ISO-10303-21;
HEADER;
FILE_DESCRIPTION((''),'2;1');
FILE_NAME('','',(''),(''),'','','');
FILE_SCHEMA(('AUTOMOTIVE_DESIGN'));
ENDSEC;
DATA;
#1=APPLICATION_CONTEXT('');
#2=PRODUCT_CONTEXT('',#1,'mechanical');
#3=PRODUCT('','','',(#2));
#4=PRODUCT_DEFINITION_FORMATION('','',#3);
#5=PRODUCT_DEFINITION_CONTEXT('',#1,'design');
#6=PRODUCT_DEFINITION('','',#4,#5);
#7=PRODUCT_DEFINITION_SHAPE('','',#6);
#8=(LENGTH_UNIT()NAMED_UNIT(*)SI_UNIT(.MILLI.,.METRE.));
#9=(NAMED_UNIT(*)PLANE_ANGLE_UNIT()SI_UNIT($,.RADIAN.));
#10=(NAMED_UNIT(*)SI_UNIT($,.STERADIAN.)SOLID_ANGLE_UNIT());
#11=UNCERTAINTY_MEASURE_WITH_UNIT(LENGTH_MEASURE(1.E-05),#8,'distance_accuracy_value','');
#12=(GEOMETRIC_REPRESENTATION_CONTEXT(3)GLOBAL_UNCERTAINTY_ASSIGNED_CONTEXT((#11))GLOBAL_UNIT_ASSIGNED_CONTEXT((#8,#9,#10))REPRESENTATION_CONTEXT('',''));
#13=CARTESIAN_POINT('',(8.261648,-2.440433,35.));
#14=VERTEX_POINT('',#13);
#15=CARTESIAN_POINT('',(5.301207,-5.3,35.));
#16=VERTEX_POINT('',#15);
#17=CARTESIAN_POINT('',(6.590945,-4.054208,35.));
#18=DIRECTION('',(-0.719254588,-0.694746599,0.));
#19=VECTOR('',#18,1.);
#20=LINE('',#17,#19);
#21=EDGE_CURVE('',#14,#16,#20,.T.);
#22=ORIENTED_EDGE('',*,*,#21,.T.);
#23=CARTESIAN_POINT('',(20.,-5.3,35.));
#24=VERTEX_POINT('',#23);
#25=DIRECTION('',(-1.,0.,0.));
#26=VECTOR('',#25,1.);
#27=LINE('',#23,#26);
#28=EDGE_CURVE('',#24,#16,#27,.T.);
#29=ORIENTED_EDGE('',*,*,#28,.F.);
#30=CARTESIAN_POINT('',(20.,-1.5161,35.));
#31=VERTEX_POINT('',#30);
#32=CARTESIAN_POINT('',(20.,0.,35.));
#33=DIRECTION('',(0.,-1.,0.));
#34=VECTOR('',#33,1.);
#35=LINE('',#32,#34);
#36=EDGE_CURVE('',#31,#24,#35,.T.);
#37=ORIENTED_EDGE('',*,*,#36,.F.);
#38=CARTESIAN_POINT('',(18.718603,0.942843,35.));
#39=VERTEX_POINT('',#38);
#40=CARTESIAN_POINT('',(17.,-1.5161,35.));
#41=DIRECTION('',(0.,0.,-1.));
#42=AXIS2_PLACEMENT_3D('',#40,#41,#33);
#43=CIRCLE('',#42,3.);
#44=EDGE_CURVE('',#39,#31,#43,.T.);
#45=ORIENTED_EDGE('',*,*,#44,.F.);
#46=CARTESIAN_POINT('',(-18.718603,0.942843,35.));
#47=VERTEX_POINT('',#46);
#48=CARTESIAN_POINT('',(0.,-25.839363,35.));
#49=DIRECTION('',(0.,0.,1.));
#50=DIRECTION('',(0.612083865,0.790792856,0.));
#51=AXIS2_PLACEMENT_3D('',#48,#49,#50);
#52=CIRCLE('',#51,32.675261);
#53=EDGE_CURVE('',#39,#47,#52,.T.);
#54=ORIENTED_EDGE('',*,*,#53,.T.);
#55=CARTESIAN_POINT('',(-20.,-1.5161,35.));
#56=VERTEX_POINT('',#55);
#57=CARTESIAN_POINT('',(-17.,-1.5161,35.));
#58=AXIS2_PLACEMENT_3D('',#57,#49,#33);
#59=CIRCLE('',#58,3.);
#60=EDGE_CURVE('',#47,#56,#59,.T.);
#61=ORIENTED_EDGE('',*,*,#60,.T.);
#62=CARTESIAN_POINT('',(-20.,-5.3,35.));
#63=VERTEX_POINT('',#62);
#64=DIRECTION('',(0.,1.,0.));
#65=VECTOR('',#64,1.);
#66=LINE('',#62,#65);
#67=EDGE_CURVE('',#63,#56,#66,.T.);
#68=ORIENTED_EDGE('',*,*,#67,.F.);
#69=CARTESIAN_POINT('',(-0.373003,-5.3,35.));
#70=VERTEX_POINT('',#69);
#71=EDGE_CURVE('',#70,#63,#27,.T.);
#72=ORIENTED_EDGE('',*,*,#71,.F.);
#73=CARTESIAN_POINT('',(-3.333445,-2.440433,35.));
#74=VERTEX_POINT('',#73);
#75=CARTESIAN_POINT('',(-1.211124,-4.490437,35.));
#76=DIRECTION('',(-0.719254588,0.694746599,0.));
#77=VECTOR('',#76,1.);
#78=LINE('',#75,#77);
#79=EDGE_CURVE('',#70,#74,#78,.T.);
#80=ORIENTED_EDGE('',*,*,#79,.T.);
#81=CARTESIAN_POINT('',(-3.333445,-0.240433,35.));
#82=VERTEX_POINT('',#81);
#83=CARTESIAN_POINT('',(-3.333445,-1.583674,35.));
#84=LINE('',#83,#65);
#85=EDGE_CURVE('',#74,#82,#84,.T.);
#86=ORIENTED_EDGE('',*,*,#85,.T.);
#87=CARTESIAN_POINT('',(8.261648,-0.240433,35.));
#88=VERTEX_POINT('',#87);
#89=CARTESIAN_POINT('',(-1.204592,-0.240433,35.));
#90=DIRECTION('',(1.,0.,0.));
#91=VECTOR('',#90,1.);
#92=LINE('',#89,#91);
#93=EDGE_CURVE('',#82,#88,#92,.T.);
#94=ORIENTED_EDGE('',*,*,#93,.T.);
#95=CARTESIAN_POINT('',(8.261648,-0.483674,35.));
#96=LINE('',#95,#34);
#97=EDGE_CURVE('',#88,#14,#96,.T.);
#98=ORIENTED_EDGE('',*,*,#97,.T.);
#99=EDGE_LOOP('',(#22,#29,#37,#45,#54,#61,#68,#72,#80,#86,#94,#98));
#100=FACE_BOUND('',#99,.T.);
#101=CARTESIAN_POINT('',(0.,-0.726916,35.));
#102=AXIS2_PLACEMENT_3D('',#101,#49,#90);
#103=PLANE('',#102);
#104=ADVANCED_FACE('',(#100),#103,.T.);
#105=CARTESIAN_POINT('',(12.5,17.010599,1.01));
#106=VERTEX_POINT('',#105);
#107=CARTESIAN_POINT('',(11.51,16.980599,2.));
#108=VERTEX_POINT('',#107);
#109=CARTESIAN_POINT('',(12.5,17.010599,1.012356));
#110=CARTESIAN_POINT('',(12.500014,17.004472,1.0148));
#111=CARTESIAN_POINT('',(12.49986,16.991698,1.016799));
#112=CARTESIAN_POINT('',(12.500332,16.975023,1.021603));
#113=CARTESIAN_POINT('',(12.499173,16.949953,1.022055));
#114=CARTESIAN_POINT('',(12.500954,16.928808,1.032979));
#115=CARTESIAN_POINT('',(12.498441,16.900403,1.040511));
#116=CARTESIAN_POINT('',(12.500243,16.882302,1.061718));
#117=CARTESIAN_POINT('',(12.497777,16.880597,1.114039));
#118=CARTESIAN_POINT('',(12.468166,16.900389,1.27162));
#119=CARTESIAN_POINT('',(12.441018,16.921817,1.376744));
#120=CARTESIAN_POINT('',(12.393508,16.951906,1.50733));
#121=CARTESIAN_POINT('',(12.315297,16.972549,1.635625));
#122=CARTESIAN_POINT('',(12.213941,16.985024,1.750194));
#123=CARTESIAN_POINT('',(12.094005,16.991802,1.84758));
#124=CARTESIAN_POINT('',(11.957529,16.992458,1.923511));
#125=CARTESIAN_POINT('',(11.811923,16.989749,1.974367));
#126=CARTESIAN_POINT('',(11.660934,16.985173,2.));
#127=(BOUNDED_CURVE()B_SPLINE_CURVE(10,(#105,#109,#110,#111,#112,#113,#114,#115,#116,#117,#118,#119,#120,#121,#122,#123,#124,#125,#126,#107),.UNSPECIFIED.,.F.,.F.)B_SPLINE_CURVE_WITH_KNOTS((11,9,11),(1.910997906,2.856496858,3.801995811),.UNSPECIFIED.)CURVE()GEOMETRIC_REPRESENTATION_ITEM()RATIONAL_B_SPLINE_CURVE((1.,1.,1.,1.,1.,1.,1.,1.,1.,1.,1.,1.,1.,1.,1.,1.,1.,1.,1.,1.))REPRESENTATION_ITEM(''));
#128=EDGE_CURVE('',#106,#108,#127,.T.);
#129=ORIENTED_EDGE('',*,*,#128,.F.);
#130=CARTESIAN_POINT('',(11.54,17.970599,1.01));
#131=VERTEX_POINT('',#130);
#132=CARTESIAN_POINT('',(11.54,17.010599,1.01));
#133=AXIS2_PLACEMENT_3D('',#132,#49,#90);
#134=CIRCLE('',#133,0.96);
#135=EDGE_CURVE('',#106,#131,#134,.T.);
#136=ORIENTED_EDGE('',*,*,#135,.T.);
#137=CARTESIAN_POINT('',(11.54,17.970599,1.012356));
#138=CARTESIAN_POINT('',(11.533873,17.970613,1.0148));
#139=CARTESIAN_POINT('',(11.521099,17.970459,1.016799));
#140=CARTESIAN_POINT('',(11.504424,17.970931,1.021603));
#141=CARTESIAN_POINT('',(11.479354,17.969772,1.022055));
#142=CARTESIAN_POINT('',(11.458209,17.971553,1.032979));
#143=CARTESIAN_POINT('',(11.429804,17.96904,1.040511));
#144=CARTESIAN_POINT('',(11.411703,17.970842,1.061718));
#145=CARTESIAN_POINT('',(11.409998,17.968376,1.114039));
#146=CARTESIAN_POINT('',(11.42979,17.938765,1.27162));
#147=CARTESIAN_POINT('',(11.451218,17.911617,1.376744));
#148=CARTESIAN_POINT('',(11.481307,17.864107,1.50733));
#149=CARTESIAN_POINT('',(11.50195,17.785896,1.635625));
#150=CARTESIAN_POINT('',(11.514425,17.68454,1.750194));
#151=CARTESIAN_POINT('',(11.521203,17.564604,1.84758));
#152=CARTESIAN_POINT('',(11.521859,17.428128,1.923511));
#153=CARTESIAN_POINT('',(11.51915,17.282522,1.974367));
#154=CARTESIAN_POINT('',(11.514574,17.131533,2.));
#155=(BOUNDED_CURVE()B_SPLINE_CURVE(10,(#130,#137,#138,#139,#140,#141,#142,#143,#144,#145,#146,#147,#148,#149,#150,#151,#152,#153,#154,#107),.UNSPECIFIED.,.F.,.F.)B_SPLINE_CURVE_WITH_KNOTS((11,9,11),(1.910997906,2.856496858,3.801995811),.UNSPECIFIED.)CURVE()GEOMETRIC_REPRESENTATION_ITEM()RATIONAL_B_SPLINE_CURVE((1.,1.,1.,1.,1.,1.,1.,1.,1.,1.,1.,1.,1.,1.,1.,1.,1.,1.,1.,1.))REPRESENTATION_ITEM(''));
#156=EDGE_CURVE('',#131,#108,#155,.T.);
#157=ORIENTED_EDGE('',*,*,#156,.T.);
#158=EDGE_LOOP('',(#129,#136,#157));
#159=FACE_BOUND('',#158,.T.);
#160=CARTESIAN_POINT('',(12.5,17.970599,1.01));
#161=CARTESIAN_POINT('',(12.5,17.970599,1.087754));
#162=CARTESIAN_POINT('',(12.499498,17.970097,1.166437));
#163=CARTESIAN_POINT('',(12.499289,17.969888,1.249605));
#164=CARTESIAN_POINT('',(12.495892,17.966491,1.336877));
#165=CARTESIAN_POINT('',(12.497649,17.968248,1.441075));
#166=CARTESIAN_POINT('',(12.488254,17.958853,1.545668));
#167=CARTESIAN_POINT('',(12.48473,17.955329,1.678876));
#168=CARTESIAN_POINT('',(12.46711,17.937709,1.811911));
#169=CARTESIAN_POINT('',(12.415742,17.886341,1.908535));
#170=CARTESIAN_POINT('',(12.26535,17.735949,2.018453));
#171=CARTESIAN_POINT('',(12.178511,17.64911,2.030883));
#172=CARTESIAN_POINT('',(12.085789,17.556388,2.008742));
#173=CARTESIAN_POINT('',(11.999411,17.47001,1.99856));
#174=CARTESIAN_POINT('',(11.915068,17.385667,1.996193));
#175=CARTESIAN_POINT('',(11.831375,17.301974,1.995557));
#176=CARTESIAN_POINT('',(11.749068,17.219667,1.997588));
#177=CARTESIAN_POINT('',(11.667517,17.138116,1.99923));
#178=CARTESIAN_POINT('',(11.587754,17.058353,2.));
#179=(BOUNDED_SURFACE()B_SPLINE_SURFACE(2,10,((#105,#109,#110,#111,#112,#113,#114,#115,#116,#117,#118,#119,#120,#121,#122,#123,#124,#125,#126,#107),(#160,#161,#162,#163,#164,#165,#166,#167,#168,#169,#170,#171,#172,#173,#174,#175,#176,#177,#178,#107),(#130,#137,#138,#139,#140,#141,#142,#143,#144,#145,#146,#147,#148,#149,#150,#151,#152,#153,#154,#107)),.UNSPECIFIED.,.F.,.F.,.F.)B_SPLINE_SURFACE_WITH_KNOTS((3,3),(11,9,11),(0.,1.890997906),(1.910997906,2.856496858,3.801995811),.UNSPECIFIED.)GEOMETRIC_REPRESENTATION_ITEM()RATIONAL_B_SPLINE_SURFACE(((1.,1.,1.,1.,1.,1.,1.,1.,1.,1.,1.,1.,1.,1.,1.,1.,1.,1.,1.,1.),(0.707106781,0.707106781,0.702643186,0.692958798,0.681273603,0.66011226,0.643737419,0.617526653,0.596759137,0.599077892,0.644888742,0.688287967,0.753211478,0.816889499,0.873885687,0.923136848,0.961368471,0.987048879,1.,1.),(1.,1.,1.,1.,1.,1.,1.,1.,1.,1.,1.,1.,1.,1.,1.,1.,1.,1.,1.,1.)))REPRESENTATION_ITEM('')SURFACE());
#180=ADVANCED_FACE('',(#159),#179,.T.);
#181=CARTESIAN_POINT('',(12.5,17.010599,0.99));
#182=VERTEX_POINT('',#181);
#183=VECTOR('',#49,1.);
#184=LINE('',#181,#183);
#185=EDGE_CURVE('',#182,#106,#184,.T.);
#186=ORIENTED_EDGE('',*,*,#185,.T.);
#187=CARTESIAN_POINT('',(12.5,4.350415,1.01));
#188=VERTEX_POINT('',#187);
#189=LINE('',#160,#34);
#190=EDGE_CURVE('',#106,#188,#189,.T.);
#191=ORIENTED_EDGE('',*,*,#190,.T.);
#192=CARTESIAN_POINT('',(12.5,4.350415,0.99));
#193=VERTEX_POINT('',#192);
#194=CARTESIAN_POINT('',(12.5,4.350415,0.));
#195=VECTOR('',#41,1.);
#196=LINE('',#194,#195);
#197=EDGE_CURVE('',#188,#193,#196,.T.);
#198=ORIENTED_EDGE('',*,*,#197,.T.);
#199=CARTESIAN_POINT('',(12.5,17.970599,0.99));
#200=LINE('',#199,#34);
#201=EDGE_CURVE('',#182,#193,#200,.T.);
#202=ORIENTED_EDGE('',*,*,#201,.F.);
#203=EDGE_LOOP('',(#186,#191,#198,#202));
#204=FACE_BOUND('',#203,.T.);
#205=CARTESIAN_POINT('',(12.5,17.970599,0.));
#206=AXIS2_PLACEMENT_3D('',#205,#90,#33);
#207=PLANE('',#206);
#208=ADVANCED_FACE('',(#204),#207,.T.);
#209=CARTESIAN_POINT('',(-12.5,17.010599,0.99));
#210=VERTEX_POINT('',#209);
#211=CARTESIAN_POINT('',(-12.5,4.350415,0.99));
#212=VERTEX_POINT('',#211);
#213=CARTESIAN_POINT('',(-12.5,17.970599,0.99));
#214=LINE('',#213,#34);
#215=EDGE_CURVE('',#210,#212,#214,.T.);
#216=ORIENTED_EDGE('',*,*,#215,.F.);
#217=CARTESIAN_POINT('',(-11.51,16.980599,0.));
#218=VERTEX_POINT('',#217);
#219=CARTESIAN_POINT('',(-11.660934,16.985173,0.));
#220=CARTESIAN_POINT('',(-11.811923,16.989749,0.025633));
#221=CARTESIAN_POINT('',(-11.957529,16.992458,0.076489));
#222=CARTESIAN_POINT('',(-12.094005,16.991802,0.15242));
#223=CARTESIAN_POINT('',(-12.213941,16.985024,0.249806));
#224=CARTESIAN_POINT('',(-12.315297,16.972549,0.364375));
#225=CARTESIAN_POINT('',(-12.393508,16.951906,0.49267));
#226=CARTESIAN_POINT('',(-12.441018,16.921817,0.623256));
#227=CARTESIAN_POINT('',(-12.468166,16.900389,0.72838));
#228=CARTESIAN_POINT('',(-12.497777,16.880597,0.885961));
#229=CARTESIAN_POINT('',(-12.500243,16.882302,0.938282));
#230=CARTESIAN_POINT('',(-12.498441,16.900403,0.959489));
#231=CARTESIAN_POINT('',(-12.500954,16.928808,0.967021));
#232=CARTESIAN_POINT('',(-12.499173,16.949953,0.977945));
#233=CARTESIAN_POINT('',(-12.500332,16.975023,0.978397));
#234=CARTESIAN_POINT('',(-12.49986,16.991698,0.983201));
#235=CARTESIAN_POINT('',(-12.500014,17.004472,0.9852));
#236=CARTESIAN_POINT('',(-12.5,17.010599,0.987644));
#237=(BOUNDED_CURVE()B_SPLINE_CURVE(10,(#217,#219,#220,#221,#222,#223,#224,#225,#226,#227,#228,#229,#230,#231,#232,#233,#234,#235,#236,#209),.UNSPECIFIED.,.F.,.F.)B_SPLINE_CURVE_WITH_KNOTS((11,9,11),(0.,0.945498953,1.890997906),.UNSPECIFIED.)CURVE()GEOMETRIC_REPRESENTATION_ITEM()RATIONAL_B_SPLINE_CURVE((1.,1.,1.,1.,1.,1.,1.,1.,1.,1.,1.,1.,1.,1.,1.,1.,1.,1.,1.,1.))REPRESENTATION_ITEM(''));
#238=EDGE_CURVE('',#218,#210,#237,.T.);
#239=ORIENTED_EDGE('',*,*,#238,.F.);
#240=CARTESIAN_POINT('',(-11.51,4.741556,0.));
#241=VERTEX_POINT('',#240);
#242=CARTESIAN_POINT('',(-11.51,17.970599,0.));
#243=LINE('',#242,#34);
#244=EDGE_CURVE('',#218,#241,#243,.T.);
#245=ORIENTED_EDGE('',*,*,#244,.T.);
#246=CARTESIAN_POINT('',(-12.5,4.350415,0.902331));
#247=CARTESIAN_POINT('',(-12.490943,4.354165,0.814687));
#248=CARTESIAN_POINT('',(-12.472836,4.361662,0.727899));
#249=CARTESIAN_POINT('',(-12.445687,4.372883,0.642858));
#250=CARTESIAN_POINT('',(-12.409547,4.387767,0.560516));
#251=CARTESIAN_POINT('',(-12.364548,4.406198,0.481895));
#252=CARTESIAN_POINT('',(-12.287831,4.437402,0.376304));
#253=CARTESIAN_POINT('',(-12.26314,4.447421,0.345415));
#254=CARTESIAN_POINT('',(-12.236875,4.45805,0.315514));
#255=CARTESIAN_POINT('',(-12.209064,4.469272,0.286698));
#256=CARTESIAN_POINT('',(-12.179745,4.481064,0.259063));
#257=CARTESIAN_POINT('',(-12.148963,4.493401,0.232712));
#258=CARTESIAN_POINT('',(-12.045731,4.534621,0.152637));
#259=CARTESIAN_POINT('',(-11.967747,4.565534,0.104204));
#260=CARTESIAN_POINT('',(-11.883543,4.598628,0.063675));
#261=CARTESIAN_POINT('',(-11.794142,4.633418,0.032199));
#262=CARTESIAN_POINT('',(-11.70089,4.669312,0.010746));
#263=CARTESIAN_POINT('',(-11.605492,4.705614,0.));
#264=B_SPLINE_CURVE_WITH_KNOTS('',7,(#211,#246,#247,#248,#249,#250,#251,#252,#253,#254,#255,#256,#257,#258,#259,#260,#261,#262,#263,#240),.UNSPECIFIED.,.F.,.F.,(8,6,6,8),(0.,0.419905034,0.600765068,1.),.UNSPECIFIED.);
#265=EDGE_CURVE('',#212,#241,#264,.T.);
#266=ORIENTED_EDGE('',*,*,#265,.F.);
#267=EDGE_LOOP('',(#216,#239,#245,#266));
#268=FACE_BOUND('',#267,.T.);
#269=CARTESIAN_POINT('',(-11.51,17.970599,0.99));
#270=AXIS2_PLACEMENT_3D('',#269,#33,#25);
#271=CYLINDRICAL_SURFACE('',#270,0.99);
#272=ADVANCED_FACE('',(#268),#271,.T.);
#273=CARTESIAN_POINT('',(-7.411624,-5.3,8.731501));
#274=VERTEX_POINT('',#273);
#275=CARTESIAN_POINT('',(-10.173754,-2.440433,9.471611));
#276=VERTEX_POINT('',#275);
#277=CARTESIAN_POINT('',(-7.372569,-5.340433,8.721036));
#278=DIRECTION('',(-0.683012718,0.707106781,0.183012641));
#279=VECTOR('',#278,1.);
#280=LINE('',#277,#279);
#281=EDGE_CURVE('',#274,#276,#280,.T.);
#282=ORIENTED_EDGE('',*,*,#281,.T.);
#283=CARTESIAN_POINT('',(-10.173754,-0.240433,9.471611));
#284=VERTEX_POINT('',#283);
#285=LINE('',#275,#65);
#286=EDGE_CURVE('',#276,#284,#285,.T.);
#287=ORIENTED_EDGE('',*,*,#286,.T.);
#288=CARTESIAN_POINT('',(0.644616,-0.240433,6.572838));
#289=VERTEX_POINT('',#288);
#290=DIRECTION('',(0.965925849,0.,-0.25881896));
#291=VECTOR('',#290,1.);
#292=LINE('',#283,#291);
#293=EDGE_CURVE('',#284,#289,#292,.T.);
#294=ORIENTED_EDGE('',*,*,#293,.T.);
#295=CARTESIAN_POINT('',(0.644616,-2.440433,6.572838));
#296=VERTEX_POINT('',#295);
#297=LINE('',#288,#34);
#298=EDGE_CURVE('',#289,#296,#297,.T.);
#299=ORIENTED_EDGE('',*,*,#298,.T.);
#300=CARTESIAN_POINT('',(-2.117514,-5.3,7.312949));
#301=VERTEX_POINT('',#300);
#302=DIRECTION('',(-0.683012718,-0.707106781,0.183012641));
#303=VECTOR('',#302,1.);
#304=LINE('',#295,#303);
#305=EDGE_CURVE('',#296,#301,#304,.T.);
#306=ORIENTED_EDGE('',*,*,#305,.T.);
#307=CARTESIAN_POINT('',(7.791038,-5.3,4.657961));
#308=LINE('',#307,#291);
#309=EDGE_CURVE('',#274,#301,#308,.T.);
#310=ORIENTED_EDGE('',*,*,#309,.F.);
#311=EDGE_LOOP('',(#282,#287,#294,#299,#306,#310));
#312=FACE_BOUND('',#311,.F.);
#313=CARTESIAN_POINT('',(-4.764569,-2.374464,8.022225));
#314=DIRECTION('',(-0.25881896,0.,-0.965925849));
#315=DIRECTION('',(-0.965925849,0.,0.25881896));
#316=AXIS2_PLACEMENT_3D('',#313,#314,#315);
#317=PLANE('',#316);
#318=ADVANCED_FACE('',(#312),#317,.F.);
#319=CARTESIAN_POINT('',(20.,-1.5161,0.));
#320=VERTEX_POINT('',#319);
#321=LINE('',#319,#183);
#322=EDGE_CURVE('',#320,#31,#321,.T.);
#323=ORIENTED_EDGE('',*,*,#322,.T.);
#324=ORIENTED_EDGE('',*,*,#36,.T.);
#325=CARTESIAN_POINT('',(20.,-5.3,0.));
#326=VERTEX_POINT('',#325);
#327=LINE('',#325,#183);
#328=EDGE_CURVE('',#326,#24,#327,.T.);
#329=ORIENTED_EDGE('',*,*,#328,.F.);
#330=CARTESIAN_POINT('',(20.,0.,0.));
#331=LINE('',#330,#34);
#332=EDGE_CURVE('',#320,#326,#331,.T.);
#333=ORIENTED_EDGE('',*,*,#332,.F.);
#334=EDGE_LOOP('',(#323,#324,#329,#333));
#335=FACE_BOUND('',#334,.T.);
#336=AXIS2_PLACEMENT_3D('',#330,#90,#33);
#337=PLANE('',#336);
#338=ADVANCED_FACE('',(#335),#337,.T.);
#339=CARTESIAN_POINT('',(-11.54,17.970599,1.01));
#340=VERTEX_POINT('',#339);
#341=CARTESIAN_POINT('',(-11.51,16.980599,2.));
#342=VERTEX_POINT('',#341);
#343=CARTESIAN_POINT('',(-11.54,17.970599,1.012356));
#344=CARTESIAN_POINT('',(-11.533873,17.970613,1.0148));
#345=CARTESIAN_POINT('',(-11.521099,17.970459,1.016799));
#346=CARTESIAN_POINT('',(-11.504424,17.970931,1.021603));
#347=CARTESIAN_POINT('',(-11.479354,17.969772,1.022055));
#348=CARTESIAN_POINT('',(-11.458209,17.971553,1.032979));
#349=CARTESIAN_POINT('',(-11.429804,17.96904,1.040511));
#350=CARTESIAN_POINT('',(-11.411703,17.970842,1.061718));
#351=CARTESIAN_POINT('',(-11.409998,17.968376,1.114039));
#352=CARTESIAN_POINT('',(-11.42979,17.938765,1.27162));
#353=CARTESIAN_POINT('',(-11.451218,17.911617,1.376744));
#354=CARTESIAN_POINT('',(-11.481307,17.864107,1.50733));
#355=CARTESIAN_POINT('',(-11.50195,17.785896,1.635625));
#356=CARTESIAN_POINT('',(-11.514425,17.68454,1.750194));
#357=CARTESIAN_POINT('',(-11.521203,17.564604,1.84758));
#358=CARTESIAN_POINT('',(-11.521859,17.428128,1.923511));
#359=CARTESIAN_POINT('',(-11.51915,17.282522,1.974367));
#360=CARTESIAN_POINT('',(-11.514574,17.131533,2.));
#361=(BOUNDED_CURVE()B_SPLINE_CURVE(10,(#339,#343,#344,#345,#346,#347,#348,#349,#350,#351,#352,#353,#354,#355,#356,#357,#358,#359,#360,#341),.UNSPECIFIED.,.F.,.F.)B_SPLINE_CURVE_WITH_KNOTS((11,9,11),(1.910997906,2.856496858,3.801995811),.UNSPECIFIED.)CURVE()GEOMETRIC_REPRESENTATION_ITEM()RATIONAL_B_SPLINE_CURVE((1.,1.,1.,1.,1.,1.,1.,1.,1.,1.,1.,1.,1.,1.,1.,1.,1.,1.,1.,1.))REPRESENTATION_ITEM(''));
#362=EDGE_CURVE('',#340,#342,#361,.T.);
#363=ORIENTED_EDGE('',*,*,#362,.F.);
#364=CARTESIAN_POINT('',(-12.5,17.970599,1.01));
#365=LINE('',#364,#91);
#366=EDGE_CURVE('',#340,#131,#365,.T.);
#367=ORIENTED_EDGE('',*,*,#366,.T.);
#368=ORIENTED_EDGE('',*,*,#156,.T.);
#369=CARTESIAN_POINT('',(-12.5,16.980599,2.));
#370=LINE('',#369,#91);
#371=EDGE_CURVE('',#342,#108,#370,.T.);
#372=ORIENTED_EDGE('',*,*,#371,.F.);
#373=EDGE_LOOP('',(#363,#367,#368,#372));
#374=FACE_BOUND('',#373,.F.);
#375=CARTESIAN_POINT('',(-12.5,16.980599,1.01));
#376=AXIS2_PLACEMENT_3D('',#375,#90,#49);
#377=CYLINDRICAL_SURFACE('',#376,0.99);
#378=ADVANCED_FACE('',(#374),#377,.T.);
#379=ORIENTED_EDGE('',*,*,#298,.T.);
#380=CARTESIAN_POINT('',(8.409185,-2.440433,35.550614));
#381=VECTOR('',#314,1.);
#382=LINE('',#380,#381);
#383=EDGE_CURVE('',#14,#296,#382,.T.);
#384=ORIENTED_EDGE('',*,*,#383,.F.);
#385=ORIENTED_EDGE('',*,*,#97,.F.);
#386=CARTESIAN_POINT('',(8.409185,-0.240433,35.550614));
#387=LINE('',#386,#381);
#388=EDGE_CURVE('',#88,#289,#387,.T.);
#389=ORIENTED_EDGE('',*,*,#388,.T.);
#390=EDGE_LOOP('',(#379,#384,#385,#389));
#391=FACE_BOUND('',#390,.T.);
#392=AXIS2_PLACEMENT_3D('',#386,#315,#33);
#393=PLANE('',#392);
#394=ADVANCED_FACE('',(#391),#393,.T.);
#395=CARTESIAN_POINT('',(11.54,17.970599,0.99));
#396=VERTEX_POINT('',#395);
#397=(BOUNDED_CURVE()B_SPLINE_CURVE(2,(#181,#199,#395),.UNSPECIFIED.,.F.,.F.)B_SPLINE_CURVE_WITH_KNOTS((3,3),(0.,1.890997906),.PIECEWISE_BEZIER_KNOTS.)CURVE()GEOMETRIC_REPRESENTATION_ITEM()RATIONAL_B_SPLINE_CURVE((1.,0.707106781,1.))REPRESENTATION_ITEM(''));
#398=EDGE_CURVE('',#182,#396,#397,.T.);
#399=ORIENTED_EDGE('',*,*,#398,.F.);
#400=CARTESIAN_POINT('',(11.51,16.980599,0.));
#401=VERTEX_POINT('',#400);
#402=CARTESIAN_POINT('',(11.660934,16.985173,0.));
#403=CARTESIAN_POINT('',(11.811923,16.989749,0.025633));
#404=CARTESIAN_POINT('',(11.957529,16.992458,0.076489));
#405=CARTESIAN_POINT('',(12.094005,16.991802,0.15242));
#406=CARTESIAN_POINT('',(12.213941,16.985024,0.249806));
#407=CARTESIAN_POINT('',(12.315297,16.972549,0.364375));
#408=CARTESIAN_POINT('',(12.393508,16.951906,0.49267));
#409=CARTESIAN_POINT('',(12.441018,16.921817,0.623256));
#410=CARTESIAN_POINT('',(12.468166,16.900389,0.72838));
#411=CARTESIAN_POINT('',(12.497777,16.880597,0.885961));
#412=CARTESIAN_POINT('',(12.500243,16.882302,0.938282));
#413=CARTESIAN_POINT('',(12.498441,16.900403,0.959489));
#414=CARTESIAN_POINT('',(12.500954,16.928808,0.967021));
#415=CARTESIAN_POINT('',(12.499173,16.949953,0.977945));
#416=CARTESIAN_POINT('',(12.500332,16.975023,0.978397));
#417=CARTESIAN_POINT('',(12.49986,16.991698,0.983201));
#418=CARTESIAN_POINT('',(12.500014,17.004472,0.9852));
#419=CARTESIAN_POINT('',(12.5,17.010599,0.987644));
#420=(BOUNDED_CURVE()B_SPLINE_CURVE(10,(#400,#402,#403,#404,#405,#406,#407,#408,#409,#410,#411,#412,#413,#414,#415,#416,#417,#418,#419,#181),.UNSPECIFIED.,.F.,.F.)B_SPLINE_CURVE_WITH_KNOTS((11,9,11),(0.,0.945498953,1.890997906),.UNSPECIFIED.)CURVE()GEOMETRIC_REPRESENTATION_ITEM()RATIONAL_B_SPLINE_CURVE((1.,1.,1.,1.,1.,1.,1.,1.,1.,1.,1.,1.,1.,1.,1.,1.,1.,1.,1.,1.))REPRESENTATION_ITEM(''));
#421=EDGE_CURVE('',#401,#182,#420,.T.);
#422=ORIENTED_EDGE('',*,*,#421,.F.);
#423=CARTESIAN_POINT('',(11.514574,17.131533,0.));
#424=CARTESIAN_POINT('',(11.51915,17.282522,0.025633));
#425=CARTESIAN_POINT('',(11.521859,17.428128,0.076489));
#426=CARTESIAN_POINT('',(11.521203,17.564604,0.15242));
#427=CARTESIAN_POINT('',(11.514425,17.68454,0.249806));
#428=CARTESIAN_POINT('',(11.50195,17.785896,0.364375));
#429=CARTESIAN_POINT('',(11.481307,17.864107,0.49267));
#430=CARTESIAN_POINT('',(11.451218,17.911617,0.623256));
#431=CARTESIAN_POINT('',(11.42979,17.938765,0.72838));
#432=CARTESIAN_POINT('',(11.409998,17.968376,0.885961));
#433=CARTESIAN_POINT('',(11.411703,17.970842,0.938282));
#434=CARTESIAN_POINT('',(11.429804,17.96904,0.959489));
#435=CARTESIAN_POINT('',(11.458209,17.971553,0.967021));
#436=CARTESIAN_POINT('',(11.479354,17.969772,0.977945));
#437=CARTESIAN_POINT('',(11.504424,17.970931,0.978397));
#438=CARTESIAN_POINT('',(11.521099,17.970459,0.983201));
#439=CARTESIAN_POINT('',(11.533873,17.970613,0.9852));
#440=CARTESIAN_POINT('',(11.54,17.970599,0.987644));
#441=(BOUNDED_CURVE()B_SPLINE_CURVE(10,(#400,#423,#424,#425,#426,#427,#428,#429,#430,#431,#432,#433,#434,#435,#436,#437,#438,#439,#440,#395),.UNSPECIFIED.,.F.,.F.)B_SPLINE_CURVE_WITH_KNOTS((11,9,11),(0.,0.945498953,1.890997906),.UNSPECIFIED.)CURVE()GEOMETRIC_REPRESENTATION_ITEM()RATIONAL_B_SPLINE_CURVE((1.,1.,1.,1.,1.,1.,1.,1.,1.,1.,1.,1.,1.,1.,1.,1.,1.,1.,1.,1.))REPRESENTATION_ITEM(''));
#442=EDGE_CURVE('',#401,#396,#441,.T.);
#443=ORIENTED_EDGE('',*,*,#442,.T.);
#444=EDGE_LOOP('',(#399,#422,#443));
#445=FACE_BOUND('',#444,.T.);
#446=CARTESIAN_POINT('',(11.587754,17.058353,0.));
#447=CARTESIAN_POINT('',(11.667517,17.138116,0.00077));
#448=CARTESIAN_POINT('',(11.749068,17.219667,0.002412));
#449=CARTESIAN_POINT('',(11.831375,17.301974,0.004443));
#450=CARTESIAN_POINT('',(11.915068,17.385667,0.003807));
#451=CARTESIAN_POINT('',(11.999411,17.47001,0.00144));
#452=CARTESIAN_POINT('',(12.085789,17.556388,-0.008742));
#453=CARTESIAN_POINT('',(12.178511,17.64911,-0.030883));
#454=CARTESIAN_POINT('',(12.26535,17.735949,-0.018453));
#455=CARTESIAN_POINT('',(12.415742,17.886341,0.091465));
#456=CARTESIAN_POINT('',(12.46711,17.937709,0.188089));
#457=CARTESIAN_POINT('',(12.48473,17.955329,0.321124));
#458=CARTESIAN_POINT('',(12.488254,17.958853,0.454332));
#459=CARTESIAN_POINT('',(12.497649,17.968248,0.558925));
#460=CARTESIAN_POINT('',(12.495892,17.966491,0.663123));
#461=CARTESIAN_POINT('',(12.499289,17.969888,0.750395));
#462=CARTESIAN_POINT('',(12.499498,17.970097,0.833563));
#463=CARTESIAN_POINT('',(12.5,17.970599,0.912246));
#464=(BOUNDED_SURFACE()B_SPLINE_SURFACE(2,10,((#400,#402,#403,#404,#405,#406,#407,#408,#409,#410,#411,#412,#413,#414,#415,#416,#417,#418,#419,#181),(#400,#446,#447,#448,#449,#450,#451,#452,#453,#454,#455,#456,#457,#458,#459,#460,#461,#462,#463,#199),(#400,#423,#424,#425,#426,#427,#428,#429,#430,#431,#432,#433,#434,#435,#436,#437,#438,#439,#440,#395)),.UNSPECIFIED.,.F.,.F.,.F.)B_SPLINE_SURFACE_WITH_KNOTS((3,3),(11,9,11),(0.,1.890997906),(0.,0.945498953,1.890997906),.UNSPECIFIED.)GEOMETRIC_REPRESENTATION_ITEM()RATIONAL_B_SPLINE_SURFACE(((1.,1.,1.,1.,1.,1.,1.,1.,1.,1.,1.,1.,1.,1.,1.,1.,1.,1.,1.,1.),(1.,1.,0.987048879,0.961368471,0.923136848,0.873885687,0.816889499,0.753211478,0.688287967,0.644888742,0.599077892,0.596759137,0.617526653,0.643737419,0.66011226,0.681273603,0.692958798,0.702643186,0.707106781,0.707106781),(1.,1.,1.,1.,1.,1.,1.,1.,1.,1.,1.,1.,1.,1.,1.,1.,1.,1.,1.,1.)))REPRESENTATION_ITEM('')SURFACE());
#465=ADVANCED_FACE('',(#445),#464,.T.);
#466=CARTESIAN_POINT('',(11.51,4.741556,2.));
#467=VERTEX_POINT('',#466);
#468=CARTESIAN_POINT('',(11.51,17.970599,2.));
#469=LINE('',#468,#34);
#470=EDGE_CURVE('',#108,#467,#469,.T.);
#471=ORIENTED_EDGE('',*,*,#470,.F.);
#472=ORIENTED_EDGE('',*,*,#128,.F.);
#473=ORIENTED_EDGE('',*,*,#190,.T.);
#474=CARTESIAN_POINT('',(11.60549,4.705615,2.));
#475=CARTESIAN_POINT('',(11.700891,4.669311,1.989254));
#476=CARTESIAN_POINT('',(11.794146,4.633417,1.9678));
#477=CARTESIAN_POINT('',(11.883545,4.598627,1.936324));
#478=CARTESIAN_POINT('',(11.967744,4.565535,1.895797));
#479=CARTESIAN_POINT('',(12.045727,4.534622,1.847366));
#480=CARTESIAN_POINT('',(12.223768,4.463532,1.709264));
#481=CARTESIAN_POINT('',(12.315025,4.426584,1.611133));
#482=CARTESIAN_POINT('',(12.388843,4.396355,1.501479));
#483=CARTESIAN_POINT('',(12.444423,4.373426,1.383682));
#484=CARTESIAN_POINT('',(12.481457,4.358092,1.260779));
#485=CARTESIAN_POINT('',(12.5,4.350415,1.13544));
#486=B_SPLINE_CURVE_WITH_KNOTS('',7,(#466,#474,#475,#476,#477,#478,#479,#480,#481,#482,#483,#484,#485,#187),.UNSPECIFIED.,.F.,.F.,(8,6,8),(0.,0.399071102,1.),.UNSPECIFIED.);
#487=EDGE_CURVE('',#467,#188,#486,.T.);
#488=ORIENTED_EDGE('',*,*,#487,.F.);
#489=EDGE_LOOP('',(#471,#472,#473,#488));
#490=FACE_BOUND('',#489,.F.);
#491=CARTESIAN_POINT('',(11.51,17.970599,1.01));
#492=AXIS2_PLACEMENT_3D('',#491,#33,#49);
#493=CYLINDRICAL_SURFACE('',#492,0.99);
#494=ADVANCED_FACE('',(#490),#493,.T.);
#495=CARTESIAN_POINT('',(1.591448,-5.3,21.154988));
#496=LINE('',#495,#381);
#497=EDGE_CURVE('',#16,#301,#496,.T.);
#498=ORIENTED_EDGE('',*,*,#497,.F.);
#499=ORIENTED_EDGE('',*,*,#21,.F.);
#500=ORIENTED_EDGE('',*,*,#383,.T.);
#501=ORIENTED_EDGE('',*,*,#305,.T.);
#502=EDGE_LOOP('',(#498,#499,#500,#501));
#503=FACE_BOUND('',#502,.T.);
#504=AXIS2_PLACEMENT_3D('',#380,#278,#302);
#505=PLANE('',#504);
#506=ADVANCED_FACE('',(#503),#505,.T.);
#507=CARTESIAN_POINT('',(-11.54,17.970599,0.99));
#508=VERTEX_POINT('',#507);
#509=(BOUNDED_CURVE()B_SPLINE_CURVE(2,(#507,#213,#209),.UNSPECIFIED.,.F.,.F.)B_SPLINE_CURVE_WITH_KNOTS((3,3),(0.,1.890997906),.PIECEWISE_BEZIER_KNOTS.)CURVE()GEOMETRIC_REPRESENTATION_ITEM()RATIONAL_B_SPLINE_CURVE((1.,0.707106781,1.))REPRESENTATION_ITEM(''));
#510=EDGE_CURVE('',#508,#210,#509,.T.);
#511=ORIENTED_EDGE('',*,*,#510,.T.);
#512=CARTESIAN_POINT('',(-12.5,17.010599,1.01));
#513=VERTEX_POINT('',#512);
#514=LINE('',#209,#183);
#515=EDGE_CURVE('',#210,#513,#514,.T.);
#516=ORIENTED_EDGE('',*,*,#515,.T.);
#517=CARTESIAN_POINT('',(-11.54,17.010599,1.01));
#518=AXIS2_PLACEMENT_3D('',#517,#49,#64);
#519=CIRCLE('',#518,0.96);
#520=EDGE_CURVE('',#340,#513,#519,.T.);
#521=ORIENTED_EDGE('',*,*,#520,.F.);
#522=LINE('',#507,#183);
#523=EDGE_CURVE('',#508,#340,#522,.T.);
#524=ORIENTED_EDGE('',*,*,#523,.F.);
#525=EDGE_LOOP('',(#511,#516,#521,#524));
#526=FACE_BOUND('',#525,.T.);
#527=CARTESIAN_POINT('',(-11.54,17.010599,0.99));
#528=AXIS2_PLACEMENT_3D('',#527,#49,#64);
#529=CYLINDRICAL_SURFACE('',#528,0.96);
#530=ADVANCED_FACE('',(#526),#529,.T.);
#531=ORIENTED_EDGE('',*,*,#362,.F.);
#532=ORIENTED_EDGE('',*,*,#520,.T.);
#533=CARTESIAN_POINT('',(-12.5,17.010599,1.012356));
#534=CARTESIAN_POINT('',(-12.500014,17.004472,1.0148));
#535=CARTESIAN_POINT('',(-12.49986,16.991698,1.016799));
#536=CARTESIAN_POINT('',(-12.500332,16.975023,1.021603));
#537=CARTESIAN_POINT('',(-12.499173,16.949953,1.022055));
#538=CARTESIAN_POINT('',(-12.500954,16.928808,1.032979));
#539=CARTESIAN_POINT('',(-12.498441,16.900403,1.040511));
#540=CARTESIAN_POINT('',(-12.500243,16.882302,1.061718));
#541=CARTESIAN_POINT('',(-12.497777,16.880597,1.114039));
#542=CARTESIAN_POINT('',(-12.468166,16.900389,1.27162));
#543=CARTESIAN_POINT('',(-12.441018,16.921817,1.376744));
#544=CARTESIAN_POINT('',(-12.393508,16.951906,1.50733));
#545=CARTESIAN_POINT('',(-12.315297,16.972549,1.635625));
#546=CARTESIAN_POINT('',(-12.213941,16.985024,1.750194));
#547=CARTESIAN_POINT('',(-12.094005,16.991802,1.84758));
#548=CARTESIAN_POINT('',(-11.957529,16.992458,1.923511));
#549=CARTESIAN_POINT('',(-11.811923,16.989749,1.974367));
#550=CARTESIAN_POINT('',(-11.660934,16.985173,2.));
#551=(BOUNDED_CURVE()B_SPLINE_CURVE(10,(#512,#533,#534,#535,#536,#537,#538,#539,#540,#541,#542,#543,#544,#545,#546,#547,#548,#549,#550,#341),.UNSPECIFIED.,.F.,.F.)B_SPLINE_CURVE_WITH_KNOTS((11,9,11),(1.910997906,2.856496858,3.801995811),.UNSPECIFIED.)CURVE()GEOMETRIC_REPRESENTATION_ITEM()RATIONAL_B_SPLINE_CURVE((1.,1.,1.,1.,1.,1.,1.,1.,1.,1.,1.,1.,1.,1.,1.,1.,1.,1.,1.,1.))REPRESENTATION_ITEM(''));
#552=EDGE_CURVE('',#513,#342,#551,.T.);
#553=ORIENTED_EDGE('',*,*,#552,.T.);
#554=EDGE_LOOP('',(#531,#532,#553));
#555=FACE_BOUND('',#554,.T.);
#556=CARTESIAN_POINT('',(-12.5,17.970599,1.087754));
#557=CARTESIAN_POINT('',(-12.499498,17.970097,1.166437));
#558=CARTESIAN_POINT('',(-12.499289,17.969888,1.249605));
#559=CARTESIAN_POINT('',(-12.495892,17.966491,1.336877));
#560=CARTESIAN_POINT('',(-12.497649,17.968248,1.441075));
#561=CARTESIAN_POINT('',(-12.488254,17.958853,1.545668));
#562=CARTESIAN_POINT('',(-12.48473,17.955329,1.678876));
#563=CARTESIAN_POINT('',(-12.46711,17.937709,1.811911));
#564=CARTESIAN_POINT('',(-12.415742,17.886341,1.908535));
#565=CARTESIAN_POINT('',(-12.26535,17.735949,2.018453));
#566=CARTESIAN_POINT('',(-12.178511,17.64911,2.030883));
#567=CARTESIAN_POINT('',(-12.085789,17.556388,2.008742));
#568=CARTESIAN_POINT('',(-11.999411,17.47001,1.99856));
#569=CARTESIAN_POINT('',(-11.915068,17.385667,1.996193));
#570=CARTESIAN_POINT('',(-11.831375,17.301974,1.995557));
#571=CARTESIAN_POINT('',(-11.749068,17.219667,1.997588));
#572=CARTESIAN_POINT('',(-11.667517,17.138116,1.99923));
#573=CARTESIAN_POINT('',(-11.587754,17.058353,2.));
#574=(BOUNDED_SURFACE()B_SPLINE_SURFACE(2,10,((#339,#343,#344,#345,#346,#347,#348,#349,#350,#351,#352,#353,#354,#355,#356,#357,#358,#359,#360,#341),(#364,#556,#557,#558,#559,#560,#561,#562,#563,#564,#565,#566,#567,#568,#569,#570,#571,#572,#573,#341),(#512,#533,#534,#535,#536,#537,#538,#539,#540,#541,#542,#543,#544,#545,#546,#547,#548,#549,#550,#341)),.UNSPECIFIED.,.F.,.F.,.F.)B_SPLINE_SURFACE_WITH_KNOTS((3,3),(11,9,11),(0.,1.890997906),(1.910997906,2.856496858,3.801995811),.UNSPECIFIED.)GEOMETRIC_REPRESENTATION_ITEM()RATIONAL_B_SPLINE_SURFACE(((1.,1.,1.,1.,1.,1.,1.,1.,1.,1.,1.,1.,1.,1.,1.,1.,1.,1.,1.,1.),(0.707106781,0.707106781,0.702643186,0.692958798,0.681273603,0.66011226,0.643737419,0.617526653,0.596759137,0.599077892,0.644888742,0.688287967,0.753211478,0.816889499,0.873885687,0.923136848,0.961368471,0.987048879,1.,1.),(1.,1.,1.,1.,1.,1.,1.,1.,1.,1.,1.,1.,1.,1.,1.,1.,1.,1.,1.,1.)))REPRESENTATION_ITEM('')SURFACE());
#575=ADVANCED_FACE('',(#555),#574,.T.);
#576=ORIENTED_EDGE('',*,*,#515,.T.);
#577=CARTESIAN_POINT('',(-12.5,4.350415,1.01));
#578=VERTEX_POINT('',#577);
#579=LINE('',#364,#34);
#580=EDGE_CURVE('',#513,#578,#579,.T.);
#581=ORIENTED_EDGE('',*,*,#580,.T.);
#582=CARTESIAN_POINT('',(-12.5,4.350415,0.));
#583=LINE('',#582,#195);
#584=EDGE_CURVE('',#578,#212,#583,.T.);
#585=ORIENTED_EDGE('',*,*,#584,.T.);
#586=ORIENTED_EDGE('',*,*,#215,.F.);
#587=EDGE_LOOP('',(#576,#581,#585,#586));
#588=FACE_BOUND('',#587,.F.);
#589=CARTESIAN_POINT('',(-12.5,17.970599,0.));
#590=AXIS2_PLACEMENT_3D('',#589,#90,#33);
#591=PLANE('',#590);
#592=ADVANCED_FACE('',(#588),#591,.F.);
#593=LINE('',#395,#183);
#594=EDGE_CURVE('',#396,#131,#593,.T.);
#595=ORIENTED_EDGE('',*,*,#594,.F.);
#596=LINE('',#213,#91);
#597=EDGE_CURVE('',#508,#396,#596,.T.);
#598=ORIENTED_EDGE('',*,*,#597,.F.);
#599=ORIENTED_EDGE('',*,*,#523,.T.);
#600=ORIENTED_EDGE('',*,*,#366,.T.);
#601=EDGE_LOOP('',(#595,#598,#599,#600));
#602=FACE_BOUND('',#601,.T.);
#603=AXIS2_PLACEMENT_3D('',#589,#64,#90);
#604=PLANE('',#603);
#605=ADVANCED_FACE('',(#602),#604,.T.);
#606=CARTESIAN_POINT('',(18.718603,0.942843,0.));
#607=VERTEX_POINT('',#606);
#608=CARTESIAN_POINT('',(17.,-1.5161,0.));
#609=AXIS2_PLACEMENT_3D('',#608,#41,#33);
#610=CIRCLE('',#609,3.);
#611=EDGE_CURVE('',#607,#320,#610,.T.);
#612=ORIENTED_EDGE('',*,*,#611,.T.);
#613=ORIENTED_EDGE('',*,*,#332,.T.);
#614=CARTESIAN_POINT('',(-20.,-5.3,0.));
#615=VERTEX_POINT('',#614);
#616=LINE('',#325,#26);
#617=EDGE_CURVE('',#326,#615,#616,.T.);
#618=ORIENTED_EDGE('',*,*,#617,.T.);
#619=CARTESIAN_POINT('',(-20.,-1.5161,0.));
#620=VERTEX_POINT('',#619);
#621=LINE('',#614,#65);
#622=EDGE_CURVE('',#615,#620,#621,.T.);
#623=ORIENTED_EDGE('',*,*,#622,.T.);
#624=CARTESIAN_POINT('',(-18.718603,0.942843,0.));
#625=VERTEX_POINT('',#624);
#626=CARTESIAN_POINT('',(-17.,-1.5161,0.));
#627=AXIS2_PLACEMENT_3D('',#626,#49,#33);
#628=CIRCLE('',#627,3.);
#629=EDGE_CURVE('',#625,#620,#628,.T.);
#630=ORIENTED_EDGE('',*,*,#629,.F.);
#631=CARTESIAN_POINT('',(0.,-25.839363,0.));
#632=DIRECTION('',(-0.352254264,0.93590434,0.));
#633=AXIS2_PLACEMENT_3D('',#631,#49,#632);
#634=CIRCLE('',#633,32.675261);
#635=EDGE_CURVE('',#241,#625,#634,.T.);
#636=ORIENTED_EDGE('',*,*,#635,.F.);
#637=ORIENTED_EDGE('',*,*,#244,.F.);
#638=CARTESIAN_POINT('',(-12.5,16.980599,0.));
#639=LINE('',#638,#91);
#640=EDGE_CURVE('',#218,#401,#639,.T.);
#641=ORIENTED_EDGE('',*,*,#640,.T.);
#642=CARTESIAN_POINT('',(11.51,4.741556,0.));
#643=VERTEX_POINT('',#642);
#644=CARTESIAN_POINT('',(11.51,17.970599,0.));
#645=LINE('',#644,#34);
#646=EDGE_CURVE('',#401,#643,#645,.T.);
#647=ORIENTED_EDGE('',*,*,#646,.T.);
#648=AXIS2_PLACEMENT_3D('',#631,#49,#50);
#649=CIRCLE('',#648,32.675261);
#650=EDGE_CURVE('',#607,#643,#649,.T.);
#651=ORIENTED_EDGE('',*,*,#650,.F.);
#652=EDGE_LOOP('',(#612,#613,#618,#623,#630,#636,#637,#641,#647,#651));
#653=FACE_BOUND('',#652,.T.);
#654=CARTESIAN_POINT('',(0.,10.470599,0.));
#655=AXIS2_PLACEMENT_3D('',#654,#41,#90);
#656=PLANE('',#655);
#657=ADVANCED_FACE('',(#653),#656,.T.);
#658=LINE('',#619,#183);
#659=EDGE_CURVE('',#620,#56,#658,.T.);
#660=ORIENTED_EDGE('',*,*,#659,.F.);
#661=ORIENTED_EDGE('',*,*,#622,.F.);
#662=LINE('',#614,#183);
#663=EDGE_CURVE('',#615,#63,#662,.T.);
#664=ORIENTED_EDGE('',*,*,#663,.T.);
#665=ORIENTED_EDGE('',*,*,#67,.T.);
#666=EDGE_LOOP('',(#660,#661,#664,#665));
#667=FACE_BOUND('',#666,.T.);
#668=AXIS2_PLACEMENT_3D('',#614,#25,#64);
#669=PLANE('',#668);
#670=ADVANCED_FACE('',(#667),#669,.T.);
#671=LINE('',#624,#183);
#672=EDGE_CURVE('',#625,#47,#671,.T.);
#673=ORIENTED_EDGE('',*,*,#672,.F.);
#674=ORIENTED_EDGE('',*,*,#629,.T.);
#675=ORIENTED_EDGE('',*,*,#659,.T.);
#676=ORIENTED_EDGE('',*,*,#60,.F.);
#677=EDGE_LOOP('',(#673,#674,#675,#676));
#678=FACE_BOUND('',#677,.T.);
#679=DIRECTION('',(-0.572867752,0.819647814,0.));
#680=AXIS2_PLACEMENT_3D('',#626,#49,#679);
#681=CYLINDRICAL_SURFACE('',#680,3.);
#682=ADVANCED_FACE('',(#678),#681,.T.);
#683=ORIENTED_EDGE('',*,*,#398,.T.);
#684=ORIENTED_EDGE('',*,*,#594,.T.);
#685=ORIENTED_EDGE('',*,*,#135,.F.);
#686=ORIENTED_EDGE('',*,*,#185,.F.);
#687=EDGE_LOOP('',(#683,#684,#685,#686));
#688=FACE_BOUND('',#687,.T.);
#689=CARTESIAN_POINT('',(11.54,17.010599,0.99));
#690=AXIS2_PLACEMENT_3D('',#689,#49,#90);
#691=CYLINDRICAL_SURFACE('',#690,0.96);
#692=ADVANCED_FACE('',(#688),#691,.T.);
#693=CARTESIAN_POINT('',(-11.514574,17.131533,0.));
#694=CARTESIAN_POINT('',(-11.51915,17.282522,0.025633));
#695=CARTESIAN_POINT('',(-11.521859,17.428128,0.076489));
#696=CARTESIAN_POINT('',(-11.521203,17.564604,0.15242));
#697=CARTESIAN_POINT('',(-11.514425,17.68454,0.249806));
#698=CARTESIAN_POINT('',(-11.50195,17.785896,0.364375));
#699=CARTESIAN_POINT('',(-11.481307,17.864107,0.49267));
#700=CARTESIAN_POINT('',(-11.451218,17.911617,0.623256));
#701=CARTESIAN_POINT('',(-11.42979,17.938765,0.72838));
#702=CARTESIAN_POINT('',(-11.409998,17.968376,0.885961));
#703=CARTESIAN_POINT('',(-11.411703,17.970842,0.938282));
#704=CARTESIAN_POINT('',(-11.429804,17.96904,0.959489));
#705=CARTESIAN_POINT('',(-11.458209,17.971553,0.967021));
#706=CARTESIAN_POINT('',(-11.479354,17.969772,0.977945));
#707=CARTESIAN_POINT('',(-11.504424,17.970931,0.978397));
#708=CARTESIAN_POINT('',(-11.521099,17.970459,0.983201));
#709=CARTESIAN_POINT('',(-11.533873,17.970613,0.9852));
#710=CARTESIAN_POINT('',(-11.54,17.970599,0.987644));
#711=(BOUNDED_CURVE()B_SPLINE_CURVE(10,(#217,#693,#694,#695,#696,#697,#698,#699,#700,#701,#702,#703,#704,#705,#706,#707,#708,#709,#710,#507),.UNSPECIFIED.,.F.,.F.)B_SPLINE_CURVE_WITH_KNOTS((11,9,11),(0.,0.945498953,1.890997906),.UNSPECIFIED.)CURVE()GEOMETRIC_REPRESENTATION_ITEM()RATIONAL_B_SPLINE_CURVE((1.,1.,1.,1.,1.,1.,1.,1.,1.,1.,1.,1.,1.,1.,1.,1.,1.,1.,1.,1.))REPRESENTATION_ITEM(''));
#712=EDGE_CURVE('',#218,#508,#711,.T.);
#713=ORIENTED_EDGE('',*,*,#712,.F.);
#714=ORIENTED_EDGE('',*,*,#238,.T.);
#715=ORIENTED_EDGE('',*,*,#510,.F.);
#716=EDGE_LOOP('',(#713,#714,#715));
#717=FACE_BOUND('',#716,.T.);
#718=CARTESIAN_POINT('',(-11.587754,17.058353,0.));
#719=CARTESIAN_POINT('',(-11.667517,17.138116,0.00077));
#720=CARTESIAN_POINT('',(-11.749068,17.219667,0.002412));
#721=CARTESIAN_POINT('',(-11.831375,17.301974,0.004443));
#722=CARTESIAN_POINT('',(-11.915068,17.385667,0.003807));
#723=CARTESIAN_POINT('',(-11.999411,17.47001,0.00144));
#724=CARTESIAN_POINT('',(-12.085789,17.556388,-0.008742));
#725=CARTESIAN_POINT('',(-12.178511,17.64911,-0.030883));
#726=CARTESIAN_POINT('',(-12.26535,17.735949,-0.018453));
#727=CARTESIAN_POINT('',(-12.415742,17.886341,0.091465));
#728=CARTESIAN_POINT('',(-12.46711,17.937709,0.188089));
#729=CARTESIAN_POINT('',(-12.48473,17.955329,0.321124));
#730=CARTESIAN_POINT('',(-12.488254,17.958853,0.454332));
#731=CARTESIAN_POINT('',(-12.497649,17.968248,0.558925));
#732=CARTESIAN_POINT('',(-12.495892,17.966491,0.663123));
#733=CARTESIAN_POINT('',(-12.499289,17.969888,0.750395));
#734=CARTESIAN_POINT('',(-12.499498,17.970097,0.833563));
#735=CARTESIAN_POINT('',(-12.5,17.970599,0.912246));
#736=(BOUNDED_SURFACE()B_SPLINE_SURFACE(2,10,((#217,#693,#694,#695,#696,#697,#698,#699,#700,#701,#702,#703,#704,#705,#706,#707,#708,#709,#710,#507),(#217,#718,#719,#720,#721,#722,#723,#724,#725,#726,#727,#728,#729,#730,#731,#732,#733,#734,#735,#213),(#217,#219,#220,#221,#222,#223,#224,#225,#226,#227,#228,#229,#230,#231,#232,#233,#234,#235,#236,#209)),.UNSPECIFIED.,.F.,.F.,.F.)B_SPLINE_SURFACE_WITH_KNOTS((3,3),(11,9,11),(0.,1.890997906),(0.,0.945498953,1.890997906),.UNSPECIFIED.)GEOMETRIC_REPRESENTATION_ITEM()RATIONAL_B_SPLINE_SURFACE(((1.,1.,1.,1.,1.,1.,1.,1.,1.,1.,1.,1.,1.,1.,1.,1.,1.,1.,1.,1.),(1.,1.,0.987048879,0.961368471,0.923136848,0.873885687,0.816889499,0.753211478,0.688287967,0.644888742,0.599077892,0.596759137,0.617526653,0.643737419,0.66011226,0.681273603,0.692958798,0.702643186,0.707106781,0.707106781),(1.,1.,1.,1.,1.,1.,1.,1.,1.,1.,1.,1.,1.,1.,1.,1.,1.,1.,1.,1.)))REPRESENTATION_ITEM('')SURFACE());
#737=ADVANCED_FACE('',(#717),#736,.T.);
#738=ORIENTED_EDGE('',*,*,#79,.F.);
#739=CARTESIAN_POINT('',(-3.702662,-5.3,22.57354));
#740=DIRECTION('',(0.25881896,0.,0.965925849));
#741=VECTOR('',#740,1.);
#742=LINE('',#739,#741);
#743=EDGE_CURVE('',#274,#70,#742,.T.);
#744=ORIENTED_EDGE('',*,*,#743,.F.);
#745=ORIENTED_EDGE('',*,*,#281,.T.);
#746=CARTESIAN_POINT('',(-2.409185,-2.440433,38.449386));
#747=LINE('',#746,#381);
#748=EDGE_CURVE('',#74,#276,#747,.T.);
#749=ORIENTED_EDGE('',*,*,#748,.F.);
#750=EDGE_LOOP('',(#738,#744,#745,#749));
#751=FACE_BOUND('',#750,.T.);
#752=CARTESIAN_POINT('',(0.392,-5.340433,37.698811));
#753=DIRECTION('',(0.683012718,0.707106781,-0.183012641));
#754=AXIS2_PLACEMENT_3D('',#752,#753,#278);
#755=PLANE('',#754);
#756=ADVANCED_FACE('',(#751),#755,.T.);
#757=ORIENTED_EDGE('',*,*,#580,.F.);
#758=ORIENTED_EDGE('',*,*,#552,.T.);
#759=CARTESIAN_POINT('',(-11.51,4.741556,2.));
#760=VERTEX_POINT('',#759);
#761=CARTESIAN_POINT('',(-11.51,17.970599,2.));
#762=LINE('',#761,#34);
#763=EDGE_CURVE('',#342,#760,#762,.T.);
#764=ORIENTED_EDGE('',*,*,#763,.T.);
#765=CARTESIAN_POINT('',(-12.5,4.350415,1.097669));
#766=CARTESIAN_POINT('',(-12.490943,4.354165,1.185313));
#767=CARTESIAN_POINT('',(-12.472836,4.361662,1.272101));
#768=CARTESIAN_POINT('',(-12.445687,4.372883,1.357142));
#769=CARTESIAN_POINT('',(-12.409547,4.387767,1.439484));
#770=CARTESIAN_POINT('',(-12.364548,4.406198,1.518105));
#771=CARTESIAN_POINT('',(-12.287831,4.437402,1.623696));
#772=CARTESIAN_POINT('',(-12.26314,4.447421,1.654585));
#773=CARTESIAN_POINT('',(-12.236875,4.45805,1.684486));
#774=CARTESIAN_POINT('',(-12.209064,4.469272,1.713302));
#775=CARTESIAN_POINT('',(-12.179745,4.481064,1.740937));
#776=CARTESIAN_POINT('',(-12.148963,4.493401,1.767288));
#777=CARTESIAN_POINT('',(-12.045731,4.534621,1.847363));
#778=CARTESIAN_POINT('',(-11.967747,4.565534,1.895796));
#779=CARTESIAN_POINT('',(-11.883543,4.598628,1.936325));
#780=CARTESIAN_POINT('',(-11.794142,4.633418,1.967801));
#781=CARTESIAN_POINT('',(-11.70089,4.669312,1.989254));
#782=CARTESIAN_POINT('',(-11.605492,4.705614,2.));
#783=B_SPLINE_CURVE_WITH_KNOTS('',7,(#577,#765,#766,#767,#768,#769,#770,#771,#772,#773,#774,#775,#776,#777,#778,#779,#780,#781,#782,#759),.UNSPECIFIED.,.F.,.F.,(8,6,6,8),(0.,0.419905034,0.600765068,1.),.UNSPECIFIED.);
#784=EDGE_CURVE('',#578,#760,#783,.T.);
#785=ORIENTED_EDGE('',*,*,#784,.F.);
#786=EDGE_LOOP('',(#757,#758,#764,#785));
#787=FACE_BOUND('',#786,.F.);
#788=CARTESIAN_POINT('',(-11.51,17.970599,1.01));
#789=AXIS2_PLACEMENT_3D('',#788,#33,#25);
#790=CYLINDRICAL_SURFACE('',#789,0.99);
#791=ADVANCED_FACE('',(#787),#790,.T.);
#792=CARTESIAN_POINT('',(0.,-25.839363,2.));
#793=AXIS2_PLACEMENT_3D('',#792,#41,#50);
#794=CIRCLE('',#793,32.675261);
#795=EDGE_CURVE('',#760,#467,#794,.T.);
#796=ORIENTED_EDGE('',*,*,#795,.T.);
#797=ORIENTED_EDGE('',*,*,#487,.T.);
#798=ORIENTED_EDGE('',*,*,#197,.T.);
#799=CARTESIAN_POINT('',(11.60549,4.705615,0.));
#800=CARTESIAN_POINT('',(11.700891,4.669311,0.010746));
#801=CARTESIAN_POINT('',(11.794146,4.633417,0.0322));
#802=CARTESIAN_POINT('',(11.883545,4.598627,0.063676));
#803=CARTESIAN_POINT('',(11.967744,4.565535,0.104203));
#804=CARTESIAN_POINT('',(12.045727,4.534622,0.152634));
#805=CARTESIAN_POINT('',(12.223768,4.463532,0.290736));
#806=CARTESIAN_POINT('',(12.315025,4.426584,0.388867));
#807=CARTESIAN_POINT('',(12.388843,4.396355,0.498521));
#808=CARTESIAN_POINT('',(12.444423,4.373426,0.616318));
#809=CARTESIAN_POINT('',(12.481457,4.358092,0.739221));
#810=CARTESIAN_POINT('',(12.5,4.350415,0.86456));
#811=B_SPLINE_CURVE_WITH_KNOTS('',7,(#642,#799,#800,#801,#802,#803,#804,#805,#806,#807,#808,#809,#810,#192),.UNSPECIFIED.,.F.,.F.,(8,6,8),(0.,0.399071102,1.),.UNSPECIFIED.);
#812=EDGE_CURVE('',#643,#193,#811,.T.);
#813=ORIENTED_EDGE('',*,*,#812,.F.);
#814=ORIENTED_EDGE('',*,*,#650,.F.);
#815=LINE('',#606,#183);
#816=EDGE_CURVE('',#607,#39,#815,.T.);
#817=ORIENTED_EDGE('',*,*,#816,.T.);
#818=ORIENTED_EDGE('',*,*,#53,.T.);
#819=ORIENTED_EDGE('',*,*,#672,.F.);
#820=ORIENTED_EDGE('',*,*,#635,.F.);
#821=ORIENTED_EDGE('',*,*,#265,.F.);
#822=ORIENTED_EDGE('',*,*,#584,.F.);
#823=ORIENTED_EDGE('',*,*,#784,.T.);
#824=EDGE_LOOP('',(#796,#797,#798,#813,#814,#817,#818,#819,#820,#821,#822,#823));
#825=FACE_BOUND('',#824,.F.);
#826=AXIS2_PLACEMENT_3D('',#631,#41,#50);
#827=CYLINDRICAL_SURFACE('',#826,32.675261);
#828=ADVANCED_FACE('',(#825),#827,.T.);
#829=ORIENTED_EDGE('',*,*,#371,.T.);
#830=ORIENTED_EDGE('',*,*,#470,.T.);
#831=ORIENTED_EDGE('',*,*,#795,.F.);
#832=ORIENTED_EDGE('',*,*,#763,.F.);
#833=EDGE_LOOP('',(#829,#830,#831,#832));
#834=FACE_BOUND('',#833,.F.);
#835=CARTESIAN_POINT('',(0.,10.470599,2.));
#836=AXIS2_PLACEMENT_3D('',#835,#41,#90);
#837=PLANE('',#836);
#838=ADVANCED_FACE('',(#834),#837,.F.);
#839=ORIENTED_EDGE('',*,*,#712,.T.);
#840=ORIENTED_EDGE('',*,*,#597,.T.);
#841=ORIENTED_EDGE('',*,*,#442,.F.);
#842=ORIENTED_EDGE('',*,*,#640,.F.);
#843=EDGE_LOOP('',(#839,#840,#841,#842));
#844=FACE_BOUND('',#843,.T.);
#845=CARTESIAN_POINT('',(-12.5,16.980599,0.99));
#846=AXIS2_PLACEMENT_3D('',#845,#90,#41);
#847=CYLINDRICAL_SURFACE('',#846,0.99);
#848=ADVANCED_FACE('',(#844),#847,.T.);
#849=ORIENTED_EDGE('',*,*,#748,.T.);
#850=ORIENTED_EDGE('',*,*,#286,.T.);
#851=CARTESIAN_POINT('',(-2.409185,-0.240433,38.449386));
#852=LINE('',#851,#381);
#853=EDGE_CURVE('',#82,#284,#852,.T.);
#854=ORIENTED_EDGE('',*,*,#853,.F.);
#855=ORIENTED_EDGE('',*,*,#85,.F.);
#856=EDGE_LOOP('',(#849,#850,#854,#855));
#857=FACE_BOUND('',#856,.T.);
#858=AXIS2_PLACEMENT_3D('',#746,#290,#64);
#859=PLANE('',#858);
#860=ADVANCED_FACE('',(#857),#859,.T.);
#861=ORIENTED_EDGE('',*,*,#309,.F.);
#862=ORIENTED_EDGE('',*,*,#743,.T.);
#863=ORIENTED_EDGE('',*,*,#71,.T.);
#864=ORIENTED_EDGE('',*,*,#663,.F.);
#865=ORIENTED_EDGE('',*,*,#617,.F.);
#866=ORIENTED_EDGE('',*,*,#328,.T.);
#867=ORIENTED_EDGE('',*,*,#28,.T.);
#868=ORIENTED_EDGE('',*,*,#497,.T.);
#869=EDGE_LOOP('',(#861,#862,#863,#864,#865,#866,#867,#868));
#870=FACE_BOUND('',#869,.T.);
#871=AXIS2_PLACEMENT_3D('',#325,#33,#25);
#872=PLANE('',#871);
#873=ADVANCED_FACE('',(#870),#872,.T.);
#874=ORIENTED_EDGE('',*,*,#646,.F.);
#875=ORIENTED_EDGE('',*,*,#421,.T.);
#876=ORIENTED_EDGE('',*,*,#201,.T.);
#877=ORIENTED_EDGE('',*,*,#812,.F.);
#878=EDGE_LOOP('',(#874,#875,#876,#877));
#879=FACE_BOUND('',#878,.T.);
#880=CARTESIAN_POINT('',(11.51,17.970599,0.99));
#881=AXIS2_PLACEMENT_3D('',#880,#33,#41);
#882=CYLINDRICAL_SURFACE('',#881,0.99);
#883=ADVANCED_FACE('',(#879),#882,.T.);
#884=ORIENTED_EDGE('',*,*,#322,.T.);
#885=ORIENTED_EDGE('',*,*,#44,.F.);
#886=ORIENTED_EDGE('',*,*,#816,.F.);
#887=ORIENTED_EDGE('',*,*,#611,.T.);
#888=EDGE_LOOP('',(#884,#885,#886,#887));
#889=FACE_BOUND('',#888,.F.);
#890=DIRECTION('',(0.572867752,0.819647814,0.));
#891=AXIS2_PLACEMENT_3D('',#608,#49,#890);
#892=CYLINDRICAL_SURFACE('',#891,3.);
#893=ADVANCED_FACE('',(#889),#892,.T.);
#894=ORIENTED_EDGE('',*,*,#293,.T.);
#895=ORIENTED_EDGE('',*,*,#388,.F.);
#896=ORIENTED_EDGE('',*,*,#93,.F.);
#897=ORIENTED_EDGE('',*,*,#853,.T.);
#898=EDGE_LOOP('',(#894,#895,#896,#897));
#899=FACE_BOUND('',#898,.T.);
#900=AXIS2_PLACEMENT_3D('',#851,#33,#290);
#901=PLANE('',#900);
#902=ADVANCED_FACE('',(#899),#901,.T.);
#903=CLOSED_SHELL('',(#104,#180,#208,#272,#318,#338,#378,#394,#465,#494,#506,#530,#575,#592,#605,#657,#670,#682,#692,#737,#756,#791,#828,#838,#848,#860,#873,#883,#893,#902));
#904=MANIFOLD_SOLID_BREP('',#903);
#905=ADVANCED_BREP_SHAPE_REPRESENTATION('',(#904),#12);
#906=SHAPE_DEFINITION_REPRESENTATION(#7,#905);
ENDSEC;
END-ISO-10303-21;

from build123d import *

# Parameters (mm, degrees)
PAD_DEPTH    = 35
POCKET_DEPTH = 30
SKETCH003_W  = 25
SKETCH003_H  = 15
PAD001_DEPTH = 2
FILLET_R     = 0.99
FILLET001_R  = 0.96
FILLET002_R  = 3


with BuildPart() as part:
    # Sketch → Pad (new body)
    with BuildSketch(Plane.XY):
        with BuildLine():
            ThreePointArc((20, 0), (0, 6.835898), (-20, 0))
            Line((-20, -5.3), (-20, 0))
            Line((20, -5.3), (-20, -5.3))
            Line((20, 0), (20, -5.3))
        make_face()
    extrude(amount=PAD_DEPTH)

    # Sketch002 → Pocket (cut)
    with BuildSketch(Plane(origin=(3, 0, 37), x_dir=(0.965926, 0, -0.258819), z_dir=(0.258819, 0, 0.965926))):
        Polygon((-5.6, -0.240433), (5.6, -0.240433), (5.6, -2.440433), (2.7, -5.340433), (-2.7, -5.340433), (-5.6, -2.440433), align=None)
    extrude(amount=-POCKET_DEPTH, mode=Mode.SUBTRACT)

    # Sketch003 (on Face4 of Pocket) → Pad001 (join)
    with BuildSketch(Plane(origin=(0, 0, 0), x_dir=(1, 0, 0), z_dir=(0, 0, -1))):
        with Locations((0, -10.470599)):
            Rectangle(SKETCH003_W, SKETCH003_H)
    extrude(amount=-PAD001_DEPTH)

    # Fillet
    fillet_edges = [part.edges().sort_by_distance(p)[0] for p in [
        (-12.5, 11.160507, 2),
        (0, 17.970599, 2),
        (12.5, 11.160507, 2),
        (-12.5, 11.160507, 0),
        (0, 17.970599, 0),
        (12.5, 11.160507, 0),
    ]]
    fillet(fillet_edges, radius=FILLET_R)

    # Fillet001
    fillet001_edges = [part.edges().sort_by_distance(p)[0] for p in [
        (-12.149588, 17.620187, 1.765663),
        (-12.149588, 17.620187, 0.234337),
        (12.149588, 17.620187, 0.234337),
        (12.149588, 17.620187, 1.765663),
    ]]
    fillet(fillet001_edges, radius=FILLET001_R)

    # Fillet002
    fillet002_edges = [part.edges().sort_by_distance(p)[0] for p in [
        (-20, 0, 17.5),
        (20, 0, 17.5),
    ]]
    fillet(fillet002_edges, radius=FILLET002_R)


solid = part.part
